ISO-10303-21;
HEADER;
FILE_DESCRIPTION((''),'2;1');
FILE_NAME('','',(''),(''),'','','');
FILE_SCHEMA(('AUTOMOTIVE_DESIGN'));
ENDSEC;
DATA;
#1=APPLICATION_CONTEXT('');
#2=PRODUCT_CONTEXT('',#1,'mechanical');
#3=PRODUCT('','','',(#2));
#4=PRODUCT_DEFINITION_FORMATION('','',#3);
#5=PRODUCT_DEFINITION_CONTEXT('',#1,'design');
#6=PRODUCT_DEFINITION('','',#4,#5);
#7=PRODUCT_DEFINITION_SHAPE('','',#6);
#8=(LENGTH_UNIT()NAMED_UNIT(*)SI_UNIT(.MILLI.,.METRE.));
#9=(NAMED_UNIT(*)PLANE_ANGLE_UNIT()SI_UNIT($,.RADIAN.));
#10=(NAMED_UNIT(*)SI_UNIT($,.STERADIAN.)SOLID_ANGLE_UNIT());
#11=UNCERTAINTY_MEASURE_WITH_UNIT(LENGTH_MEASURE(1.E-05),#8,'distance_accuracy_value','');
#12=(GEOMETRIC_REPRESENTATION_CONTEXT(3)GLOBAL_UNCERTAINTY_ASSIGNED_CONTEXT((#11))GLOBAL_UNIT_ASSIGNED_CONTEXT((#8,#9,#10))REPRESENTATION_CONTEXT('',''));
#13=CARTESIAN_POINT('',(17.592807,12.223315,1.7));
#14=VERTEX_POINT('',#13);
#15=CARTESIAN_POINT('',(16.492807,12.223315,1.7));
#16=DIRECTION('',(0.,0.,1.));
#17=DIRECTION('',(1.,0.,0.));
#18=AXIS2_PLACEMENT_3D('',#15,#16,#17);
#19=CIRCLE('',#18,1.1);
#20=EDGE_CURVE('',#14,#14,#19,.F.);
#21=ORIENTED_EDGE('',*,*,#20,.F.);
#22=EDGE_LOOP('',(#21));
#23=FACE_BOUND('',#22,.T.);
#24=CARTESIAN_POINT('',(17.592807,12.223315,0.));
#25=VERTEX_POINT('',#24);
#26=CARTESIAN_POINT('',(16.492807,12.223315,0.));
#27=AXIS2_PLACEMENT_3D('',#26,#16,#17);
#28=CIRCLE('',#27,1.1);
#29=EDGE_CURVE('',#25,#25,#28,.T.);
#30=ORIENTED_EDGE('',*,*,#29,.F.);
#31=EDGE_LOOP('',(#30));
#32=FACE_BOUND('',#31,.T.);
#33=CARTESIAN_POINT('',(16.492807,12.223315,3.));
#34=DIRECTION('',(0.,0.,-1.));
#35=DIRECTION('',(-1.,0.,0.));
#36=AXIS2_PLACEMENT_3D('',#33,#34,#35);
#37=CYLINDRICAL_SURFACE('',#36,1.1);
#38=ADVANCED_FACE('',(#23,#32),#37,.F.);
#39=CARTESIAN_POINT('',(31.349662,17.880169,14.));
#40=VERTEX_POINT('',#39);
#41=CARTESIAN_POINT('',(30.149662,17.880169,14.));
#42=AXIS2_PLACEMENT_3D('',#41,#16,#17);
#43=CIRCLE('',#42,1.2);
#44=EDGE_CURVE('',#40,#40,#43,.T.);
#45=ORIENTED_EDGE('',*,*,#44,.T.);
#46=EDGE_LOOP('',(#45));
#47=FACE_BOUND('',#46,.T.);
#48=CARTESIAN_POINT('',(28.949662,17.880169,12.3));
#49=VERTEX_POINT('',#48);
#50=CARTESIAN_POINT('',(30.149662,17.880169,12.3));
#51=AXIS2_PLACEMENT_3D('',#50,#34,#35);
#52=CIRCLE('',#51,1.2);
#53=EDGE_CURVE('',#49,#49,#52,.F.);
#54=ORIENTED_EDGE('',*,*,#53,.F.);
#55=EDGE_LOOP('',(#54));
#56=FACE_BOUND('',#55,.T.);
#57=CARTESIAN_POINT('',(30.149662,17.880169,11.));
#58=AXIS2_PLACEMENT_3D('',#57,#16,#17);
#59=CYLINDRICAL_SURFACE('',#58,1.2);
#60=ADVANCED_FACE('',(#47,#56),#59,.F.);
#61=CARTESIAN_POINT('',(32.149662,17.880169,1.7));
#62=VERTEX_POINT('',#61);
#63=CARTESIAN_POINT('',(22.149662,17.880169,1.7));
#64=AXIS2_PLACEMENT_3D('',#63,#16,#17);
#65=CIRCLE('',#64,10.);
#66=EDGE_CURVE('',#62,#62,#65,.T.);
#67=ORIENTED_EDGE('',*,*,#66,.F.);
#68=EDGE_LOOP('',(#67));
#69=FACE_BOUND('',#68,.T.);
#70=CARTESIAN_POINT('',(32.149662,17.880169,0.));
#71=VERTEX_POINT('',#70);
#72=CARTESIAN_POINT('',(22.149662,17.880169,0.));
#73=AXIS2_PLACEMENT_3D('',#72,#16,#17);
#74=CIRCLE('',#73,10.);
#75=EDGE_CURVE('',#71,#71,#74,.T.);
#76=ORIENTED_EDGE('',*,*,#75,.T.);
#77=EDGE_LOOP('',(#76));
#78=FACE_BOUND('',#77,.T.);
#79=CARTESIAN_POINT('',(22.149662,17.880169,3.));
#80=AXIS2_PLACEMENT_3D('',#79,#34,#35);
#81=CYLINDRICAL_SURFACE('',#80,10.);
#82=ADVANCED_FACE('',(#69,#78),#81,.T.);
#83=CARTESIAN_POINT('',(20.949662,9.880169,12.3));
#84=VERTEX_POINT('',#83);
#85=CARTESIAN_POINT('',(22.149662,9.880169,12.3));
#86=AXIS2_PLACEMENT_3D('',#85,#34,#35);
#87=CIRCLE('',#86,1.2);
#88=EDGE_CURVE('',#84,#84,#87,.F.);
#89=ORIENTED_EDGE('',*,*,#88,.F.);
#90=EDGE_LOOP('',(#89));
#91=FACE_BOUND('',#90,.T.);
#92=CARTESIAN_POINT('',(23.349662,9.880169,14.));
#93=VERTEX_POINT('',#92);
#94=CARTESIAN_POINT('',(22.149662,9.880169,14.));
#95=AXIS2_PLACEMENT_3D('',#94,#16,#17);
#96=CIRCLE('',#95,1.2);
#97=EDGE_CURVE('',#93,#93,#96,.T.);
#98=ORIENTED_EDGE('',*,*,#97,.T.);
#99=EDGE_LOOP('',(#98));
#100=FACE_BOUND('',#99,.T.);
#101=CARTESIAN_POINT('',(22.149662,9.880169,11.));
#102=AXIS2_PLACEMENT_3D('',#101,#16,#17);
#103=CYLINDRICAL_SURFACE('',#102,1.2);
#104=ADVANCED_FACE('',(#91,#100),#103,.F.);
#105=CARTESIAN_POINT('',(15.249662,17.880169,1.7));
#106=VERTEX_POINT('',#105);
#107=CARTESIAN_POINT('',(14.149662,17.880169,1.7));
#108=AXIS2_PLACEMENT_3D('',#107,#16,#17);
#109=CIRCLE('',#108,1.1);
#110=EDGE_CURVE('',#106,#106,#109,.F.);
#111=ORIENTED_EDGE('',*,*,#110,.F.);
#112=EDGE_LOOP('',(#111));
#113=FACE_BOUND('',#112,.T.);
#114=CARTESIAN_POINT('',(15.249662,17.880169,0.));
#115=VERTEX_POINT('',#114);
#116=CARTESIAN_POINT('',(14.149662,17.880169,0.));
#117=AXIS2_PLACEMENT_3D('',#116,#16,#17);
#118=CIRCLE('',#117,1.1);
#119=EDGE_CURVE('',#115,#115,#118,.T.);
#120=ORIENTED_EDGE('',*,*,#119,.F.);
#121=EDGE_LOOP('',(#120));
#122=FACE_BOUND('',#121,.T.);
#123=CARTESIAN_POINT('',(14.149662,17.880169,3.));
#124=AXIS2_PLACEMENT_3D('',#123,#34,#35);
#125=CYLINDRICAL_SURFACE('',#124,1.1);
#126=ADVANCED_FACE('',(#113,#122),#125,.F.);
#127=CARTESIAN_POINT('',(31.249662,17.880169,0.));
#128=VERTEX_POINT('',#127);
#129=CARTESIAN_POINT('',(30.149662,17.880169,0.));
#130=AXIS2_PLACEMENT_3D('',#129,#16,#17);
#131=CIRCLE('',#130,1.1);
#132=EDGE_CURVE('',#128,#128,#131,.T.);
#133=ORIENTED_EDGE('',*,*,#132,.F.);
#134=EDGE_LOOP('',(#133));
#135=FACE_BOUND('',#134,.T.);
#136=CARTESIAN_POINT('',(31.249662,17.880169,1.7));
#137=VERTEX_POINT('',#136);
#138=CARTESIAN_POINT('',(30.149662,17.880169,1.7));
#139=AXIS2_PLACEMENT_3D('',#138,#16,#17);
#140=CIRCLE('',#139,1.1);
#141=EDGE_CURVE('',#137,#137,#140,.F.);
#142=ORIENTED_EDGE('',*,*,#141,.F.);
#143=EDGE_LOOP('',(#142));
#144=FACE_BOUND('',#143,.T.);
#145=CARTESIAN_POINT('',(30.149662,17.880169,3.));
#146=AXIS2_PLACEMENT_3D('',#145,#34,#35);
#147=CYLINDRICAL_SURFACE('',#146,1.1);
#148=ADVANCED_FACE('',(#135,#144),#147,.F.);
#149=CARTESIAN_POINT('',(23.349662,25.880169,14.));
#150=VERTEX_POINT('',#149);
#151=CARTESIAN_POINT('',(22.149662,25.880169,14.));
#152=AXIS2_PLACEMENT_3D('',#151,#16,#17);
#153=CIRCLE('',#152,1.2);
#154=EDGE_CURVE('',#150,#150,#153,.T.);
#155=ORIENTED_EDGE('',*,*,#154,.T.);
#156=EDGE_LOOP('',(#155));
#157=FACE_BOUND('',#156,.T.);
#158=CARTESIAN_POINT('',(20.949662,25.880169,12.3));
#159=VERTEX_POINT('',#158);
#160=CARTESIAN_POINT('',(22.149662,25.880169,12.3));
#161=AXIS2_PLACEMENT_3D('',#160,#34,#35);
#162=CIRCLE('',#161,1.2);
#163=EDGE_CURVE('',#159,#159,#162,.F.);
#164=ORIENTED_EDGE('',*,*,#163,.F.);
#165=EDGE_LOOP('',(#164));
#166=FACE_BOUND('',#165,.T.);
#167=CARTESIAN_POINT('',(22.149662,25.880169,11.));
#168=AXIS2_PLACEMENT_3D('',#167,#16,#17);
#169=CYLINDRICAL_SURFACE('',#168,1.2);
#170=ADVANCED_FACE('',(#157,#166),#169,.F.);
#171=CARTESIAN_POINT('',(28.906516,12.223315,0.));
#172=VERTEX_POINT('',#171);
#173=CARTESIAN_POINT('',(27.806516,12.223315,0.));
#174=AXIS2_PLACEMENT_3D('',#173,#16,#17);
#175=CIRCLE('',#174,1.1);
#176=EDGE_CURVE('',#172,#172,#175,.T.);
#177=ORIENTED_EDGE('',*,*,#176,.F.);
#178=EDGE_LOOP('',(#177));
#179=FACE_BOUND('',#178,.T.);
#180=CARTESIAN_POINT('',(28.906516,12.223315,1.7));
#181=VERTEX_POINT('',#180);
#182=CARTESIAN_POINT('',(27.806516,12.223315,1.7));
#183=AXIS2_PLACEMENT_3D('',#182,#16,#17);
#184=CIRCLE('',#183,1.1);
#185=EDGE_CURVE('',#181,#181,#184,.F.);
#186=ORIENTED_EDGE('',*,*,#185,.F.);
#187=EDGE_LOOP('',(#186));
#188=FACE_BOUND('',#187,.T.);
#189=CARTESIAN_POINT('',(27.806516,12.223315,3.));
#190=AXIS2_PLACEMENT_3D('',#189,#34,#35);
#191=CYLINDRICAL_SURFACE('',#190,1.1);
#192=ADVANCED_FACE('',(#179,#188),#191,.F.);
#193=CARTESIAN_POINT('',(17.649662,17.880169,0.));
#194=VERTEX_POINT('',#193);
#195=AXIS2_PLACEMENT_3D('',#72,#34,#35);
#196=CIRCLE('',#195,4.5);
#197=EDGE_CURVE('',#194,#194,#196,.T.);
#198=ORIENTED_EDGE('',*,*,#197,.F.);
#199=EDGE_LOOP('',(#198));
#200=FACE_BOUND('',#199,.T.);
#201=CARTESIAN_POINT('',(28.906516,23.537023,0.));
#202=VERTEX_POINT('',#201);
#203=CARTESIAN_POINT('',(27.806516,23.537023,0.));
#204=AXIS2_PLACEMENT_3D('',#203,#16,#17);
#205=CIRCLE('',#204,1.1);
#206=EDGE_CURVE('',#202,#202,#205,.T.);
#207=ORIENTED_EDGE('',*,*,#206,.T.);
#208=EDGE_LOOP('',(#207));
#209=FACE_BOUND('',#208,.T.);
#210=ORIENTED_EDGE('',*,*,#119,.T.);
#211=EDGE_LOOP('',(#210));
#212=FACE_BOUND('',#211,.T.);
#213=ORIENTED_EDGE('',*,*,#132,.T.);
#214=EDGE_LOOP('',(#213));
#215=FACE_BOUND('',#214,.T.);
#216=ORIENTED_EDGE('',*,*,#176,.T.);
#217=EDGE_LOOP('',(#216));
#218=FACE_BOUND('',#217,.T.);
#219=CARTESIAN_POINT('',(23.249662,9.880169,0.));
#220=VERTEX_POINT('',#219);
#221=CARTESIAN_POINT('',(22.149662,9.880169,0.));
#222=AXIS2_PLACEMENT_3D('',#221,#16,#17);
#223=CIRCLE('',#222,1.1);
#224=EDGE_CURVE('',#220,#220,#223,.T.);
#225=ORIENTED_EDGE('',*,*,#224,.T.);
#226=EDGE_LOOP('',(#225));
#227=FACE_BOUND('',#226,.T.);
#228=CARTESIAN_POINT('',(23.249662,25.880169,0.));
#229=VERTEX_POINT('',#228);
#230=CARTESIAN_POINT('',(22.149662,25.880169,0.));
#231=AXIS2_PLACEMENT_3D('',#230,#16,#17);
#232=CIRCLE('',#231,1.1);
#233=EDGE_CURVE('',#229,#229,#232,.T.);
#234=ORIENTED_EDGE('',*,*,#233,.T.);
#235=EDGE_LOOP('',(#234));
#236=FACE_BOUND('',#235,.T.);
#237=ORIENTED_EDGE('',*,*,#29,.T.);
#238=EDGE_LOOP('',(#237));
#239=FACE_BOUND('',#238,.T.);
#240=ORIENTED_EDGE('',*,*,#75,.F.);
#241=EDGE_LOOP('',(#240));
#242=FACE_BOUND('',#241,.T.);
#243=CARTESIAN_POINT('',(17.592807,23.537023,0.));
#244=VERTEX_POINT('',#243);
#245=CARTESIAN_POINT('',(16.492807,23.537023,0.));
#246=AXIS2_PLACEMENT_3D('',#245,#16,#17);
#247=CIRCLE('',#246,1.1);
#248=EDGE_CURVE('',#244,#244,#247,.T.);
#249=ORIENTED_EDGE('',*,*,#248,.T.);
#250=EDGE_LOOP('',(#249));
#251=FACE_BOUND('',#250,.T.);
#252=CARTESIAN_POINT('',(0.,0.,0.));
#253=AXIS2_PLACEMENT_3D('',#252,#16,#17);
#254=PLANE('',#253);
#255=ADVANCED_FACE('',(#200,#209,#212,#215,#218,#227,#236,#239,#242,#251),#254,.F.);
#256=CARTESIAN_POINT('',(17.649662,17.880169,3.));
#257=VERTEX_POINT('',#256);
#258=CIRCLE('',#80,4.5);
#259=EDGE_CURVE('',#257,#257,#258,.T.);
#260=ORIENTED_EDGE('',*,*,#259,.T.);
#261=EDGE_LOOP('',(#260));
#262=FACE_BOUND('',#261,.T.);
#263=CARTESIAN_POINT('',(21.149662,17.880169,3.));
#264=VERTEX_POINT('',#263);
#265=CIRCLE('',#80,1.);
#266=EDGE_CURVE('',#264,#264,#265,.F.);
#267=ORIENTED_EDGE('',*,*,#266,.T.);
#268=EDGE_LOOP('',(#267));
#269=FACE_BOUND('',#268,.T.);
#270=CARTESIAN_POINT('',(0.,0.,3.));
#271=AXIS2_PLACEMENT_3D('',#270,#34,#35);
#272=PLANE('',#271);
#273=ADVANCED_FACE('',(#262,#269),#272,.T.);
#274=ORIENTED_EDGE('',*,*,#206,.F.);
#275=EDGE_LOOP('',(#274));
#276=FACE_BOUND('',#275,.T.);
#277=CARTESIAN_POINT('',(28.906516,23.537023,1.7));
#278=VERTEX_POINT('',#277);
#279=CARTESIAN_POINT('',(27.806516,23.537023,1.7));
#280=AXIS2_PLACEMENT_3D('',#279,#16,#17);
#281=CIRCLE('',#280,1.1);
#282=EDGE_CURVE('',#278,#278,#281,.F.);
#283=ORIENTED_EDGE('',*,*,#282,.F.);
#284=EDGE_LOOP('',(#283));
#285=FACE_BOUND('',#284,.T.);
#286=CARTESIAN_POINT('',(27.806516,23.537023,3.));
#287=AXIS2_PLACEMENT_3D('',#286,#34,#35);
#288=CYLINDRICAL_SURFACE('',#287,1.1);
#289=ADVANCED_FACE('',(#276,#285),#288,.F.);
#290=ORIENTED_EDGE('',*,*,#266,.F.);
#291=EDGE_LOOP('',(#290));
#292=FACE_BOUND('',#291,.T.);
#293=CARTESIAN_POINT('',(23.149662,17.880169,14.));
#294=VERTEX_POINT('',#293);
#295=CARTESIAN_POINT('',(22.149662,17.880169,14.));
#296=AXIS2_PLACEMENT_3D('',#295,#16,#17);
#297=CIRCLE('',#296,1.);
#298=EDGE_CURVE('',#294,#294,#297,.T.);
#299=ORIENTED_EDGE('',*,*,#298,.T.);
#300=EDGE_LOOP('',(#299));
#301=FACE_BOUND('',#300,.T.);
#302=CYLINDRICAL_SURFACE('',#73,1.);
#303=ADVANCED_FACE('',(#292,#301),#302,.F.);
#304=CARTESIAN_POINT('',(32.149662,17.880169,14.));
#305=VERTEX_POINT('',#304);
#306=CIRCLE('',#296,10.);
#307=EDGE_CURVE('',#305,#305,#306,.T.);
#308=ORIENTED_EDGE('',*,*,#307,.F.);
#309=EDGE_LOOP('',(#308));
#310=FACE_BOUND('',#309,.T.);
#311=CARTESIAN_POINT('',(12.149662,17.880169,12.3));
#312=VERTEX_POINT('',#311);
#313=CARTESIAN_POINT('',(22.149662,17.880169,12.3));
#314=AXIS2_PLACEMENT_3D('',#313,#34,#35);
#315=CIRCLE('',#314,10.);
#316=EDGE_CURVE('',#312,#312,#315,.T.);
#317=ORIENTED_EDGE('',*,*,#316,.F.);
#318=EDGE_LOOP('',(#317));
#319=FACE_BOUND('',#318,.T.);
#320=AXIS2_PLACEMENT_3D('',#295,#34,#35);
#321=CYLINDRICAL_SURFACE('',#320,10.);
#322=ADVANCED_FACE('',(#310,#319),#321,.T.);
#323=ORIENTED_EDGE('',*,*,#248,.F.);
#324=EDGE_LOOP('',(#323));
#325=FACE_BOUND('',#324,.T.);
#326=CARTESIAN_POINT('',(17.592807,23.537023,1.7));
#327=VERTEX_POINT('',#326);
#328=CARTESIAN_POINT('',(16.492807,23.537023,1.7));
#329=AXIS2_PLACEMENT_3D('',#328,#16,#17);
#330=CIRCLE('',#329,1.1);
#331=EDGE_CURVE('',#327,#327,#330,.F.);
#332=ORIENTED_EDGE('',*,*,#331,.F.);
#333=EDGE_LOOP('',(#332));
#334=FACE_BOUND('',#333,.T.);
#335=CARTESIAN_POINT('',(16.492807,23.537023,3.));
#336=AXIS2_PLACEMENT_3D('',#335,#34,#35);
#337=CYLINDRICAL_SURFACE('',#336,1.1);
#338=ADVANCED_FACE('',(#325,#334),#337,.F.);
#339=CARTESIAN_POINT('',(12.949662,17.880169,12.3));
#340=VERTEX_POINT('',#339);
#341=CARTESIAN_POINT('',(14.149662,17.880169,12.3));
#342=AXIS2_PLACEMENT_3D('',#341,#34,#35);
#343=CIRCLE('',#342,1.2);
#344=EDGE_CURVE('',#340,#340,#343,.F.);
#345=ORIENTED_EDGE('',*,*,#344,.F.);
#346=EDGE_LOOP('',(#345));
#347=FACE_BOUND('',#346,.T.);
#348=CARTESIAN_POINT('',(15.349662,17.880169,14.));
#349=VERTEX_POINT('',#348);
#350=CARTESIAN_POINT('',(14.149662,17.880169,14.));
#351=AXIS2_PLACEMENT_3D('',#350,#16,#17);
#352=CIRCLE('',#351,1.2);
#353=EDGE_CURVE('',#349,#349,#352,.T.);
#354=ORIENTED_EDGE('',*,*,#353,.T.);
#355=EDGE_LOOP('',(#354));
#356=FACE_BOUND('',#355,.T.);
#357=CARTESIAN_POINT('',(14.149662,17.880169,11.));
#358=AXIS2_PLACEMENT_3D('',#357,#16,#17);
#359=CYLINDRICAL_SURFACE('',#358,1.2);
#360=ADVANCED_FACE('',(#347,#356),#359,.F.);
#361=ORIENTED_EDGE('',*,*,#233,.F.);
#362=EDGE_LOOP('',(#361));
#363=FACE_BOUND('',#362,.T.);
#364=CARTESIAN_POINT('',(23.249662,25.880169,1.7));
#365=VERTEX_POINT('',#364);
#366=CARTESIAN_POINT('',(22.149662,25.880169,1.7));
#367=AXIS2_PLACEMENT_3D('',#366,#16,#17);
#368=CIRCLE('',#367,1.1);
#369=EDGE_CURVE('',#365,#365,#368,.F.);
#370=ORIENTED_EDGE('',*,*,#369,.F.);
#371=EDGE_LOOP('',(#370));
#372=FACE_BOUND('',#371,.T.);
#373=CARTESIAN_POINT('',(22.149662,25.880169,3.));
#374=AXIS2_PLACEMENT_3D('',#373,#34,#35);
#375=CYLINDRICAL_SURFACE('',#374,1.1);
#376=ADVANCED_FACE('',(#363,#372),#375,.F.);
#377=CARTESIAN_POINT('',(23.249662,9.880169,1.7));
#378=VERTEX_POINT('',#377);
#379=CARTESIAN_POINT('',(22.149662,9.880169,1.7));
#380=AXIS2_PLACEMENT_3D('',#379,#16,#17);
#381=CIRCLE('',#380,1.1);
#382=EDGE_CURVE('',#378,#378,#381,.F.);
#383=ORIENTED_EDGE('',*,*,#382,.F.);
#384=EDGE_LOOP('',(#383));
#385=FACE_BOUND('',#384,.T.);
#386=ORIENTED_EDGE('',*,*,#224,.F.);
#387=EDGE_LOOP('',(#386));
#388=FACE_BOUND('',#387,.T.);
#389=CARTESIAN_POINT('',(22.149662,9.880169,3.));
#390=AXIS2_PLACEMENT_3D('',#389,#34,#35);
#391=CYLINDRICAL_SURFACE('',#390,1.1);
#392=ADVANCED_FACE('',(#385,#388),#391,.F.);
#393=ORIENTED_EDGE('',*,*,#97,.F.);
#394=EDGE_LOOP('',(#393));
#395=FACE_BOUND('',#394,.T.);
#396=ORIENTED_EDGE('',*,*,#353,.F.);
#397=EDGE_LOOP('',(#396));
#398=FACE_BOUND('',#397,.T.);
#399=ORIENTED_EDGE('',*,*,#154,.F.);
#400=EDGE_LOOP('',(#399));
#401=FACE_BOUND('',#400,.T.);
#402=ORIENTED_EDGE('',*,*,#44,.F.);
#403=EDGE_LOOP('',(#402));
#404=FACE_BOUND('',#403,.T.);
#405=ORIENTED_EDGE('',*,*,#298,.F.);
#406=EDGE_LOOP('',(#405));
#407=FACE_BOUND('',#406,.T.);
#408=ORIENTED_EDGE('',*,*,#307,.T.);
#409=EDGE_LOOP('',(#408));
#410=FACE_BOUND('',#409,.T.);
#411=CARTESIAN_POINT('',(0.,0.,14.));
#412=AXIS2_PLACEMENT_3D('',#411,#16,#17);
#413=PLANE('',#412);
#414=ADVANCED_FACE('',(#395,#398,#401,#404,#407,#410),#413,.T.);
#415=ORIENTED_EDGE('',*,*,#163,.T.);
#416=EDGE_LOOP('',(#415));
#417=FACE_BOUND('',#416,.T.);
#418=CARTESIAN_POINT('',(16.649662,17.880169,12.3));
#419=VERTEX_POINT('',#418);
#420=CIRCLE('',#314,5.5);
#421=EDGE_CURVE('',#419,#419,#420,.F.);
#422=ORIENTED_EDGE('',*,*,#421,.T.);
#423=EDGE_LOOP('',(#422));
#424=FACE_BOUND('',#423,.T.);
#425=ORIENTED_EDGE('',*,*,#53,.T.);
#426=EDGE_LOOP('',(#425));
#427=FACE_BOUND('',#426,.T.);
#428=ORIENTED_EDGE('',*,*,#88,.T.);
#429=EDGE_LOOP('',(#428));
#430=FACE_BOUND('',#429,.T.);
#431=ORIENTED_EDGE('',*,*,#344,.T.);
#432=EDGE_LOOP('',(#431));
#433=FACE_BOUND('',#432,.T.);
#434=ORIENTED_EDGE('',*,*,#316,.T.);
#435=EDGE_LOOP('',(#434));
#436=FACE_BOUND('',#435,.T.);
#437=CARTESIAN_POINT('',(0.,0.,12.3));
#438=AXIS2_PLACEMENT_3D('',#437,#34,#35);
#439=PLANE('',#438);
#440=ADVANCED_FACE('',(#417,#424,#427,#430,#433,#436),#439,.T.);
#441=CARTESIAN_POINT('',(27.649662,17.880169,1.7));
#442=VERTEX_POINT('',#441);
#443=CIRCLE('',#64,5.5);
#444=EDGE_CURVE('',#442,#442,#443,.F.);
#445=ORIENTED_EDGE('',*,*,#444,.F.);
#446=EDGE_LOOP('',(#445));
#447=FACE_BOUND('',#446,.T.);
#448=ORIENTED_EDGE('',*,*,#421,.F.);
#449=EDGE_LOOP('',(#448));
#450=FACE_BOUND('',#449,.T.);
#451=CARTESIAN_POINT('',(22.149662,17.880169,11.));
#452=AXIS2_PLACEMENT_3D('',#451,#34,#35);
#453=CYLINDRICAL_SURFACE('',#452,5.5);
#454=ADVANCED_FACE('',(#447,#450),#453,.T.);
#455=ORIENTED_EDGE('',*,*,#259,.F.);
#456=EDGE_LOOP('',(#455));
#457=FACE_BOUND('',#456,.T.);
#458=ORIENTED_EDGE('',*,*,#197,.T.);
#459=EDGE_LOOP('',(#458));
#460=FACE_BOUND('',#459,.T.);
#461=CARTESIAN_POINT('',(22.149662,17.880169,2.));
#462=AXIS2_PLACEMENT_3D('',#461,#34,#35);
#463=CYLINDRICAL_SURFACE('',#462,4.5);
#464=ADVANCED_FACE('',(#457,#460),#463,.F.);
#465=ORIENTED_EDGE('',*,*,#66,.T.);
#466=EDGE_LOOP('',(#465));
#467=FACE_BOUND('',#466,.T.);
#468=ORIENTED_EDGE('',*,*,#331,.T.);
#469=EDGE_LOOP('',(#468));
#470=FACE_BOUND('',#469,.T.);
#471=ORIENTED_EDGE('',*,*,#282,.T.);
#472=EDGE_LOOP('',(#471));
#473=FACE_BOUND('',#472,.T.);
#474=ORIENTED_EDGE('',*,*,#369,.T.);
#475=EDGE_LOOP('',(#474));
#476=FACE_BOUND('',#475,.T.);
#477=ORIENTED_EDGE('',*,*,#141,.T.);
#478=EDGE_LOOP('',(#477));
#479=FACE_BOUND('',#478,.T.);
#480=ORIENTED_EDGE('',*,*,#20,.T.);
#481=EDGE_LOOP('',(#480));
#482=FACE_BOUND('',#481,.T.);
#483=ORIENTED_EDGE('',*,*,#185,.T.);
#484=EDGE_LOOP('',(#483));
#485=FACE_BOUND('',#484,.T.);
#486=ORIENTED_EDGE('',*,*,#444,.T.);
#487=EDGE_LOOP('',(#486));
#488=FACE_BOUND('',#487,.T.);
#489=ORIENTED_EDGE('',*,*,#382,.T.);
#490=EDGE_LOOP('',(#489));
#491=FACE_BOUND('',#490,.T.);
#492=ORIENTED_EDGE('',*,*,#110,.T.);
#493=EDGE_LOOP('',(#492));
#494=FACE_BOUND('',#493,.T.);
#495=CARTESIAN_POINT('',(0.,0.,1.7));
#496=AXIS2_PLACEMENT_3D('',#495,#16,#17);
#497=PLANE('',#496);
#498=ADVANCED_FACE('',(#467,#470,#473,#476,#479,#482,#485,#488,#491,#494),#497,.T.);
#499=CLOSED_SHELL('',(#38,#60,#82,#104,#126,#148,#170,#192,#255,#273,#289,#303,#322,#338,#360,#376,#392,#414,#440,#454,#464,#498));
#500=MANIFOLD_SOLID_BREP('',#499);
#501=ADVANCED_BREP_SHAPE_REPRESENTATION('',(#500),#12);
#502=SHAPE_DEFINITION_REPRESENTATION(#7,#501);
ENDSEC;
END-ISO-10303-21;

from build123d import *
from build123d.topology import SkipClean

# Parameters (mm, degrees)
BOSS_EXTRU_1_DEPTH      = 3
ENL_V_MAT_EXTRU_2_DEPTH = 2
BOSS_EXTRU_2_DEPTH      = 8
ESQUISSE4_R             = 10
ESQUISSE4_R_2           = 5.5
BOSS_EXTRU_3_DEPTH      = 3
ESQUISSE5_R             = 1.2
ENL_V_MAT_EXTRU_3_DEPTH = 3
ENL_V_MAT_EXTRU_4_DEPTH = 14
ENL_V_START             = -1.3
ESQUISSE7_R             = 1.1
ENL_V_MAT_EXTRU_5_DEPTH = 1.3
ENL_V_MAT_EXTRU_6_DEPTH = 1
ENL_V_MAT_EXTRU_7_DEPTH = 1.3


with BuildPart() as part:
    # Esquisse1 → Boss.-Extru.1 (new body)
    with BuildSketch(Plane.XY):
        with BuildLine():
            Line((22.149661623, 27.880169066), (22.149661623, 26.980169066))
            ThreePointArc((22.149661623, 26.980169066), (22.927479082, 26.657986525), (23.249661623, 25.880169066))
            ThreePointArc((23.249661623, 25.880169066), (22.927479082, 25.102351606), (22.149661623, 24.780169066))
            Line((22.149661623, 24.780169066), (22.149661623, 17.880169066))
            Line((22.149661623, 17.880169066), (27.028698413, 22.759205856))
            ThreePointArc((27.028698413, 22.759205856), (27.028698413, 24.314840775), (28.584333332, 24.314840775))
            Line((28.584333332, 24.314840775), (29.220729435, 24.951236878))
            ThreePointArc((29.220729435, 24.951236878), (25.976495947, 27.118964391), (22.149661623, 27.880169066))
        make_face()
        with BuildLine():
            ThreePointArc((22.149661623, 24.780169066), (21.049661623, 25.880169066), (22.149661623, 26.980169066))
            Line((22.149661623, 26.980169066), (22.149661623, 27.880169066))
            ThreePointArc((22.149661623, 27.880169066), (18.322827299, 27.118964391), (15.078593811, 24.951236878))
            Line((15.078593811, 24.951236878), (15.714989914, 24.314840775))
            ThreePointArc((15.714989914, 24.314840775), (16.913759149, 24.553290801), (17.592807374, 23.537023315))
            ThreePointArc((17.592807374, 23.537023315), (17.509074859, 23.11607154), (17.270624833, 22.759205856))
            Line((17.270624833, 22.759205856), (22.149661623, 17.880169066))
            Line((22.149661623, 17.880169066), (22.149661623, 24.780169066))
        make_face()
        with BuildLine():
            Line((27.028698413, 22.759205856), (22.149661623, 17.880169066))
            Line((22.149661623, 17.880169066), (29.049661623, 17.880169066))
            ThreePointArc((29.049661623, 17.880169066), (30.149661623, 18.980169066), (31.249661623, 17.880169066))
            Line((31.249661623, 17.880169066), (32.149661623, 17.880169066))
            ThreePointArc((32.149661623, 17.880169066), (31.388456948, 21.707003389), (29.220729435, 24.951236878))
            Line((29.220729435, 24.951236878), (28.584333332, 24.314840775))
            ThreePointArc((28.584333332, 24.314840775), (28.822783358, 23.957975091), (28.906515873, 23.537023315))
            ThreePointArc((28.906515873, 23.537023315), (28.227467648, 22.520755829), (27.028698413, 22.759205856))
        make_face()
        with BuildLine():
            Line((15.249661623, 17.880169066), (22.149661623, 17.880169066))
            Line((22.149661623, 17.880169066), (17.270624833, 22.759205856))
            ThreePointArc((17.270624833, 22.759205856), (15.714989914, 22.759205856), (15.714989914, 24.314840775))
            Line((15.714989914, 24.314840775), (15.078593811, 24.951236878))
            ThreePointArc((15.078593811, 24.951236878), (12.910866298, 21.707003389), (12.149661623, 17.880169066))
            Line((12.149661623, 17.880169066), (13.049661623, 17.880169066))
            ThreePointArc((13.049661623, 17.880169066), (14.149661623, 18.980169066), (15.249661623, 17.880169066))
        make_face()
        with BuildLine():
            Line((29.049661623, 17.880169066), (22.149661623, 17.880169066))
            Line((22.149661623, 17.880169066), (27.028698413, 13.001132276))
            ThreePointArc((27.028698413, 13.001132276), (28.227467648, 13.239582302), (28.906515873, 12.223314816))
            ThreePointArc((28.906515873, 12.223314816), (28.822783358, 11.802363041), (28.584333332, 11.445497357))
            Line((28.584333332, 11.445497357), (29.220729435, 10.809101254))
            ThreePointArc((29.220729435, 10.809101254), (31.388456948, 14.053334742), (32.149661623, 17.880169066))
            Line((32.149661623, 17.880169066), (31.249661623, 17.880169066))
            ThreePointArc((31.249661623, 17.880169066), (30.149661623, 16.780169066), (29.049661623, 17.880169066))
        make_face()
        with BuildLine():
            Line((27.028698413, 13.001132276), (22.149661623, 17.880169066))
            Line((22.149661623, 17.880169066), (22.149661623, 10.980169066))
            ThreePointArc((22.149661623, 10.980169066), (22.927479082, 10.657986525), (23.249661623, 9.880169066))
            ThreePointArc((23.249661623, 9.880169066), (22.927479082, 9.102351606), (22.149661623, 8.780169066))
            Line((22.149661623, 8.780169066), (22.149661623, 7.880169066))
            ThreePointArc((22.149661623, 7.880169066), (25.976495947, 8.641373741), (29.220729435, 10.809101254))
            Line((29.220729435, 10.809101254), (28.584333332, 11.445497357))
            ThreePointArc((28.584333332, 11.445497357), (27.028698413, 11.445497357), (27.028698413, 13.001132276))
        make_face()
        with BuildLine():
            Line((22.149661623, 10.980169066), (22.149661623, 17.880169066))
            Line((22.149661623, 17.880169066), (17.270624833, 13.001132276))
            ThreePointArc((17.270624833, 13.001132276), (17.509074859, 12.644266592), (17.592807374, 12.223314816))
            ThreePointArc((17.592807374, 12.223314816), (16.913759149, 11.20704733), (15.714989914, 11.445497357))
            Line((15.714989914, 11.445497357), (15.078593811, 10.809101254))
            ThreePointArc((15.078593811, 10.809101254), (18.322827299, 8.641373741), (22.149661623, 7.880169066))
            Line((22.149661623, 7.880169066), (22.149661623, 8.780169066))
            ThreePointArc((22.149661623, 8.780169066), (21.049661623, 9.880169066), (22.149661623, 10.980169066))
        make_face()
        with BuildLine():
            Line((17.270624833, 13.001132276), (22.149661623, 17.880169066))
            Line((22.149661623, 17.880169066), (15.249661623, 17.880169066))
            ThreePointArc((15.249661623, 17.880169066), (14.149661623, 16.780169066), (13.049661623, 17.880169066))
            Line((13.049661623, 17.880169066), (12.149661623, 17.880169066))
            ThreePointArc((12.149661623, 17.880169066), (12.910866298, 14.053334742), (15.078593811, 10.809101254))
            Line((15.078593811, 10.809101254), (15.714989914, 11.445497357))
            ThreePointArc((15.714989914, 11.445497357), (15.714989914, 13.001132276), (17.270624833, 13.001132276))
        make_face()
    extrude(amount=BOSS_EXTRU_1_DEPTH)

    # Esquisse2 → Enlèv. mat.-Extru.2 (cut)
    with BuildSketch(Plane(origin=(0, 0, 0), x_dir=(-1, 0, 0), z_dir=(0, 0, -1))):
        with BuildLine():
            ThreePointArc((-17.649661623, 17.880169066), (-18.967681108, 21.062149581), (-22.149661623, 22.380169066))
            Line((-22.149661623, 22.380169066), (-22.149661623, 17.880169066))
            Line((-22.149661623, 17.880169066), (-17.649661623, 17.880169066))
        make_face()
        with BuildLine():
            Line((-22.149661623, 17.880169066), (-22.149661623, 22.380169066))
            ThreePointArc((-22.149661623, 22.380169066), (-25.331642138, 21.062149581), (-26.649661623, 17.880169066))
            Line((-26.649661623, 17.880169066), (-22.149661623, 17.880169066))
        make_face()
        with BuildLine():
            Line((-17.649661623, 17.880169066), (-22.149661623, 17.880169066))
            Line((-22.149661623, 17.880169066), (-22.149661623, 13.380169066))
            ThreePointArc((-22.149661623, 13.380169066), (-18.967681108, 14.69818855), (-17.649661623, 17.880169066))
        make_face()
        with BuildLine():
            Line((-22.149661623, 13.380169066), (-22.149661623, 17.880169066))
            Line((-22.149661623, 17.880169066), (-26.649661623, 17.880169066))
            ThreePointArc((-26.649661623, 17.880169066), (-25.331642138, 14.69818855), (-22.149661623, 13.380169066))
        make_face()
    extrude(amount=-ENL_V_MAT_EXTRU_2_DEPTH, mode=Mode.SUBTRACT)

    # Esquisse3 → Boss.-Extru.2 (add)
    with BuildSketch(Plane.XY.offset(3)):
        with BuildLine():
            ThreePointArc((27.649661623, 17.880169066), (26.03874892, 21.769256362), (22.149661623, 23.380169066))
            Line((22.149661623, 23.380169066), (22.149661623, 17.880169066))
            Line((22.149661623, 17.880169066), (27.649661623, 17.880169066))
        make_face()
        with BuildLine():
            Line((22.149661623, 17.880169066), (22.149661623, 23.380169066))
            ThreePointArc((22.149661623, 23.380169066), (18.260574327, 21.769256362), (16.649661623, 17.880169066))
            Line((16.649661623, 17.880169066), (22.149661623, 17.880169066))
        make_face()
        with BuildLine():
            Line((27.649661623, 17.880169066), (22.149661623, 17.880169066))
            Line((22.149661623, 17.880169066), (22.149661623, 12.380169066))
            ThreePointArc((22.149661623, 12.380169066), (26.03874892, 13.991081769), (27.649661623, 17.880169066))
        make_face()
        with BuildLine():
            Line((22.149661623, 12.380169066), (22.149661623, 17.880169066))
            Line((22.149661623, 17.880169066), (16.649661623, 17.880169066))
            ThreePointArc((16.649661623, 17.880169066), (18.260574327, 13.991081769), (22.149661623, 12.380169066))
        make_face()
    extrude(amount=BOSS_EXTRU_2_DEPTH)

    # Esquisse4 → Boss.-Extru.3 (add)
    # profile 1 of 17: a face of its own
    with BuildSketch(Plane.XY.offset(11)):
        with Locations((22.149661623, 17.880169066)):
            Circle(ESQUISSE4_R)
        with Locations((22.149661623, 17.880169066)):
            Circle(ESQUISSE4_R_2, mode=Mode.SUBTRACT)
    # profile 2 of 17: a face of its own
    with BuildSketch(Plane.XY.offset(11)):
        with BuildLine():
            Line((22.149661623, 12.380169066), (22.149661623, 17.880169066))
            Line((22.149661623, 17.880169066), (16.649661623, 17.880169066))
            ThreePointArc((16.649661623, 17.880169066), (18.260574327, 13.991081769), (22.149661623, 12.380169066))
        make_face()
    # profile 3 of 17: a face of its own
    with BuildSketch(Plane.XY.offset(11)):
        with BuildLine():
            Line((27.649661623, 17.880169066), (22.149661623, 17.880169066))
            Line((22.149661623, 17.880169066), (22.149661623, 12.380169066))
            ThreePointArc((22.149661623, 12.380169066), (26.03874892, 13.991081769), (27.649661623, 17.880169066))
        make_face()
    # profile 4 of 17: a face of its own
    with BuildSketch(Plane.XY.offset(11)):
        with BuildLine():
            Line((22.149661623, 17.880169066), (22.149661623, 23.380169066))
            ThreePointArc((22.149661623, 23.380169066), (18.260574327, 21.769256362), (16.649661623, 17.880169066))
            Line((16.649661623, 17.880169066), (22.149661623, 17.880169066))
        make_face()
    # profile 5 of 17: a face of its own
    with BuildSketch(Plane.XY.offset(11)):
        with BuildLine():
            ThreePointArc((27.649661623, 17.880169066), (26.03874892, 21.769256362), (22.149661623, 23.380169066))
            Line((22.149661623, 23.380169066), (22.149661623, 17.880169066))
            Line((22.149661623, 17.880169066), (27.649661623, 17.880169066))
        make_face()
    # profile 6 of 17: a face of its own
    with BuildSketch(Plane.XY.offset(11)):
        with BuildLine():
            Line((22.149661623, 12.380169066), (22.149661623, 17.880169066))
            Line((22.149661623, 17.880169066), (16.649661623, 17.880169066))
            ThreePointArc((16.649661623, 17.880169066), (18.260574327, 13.991081769), (22.149661623, 12.380169066))
        make_face()
    # profile 7 of 17: a face of its own
    with BuildSketch(Plane.XY.offset(11)):
        with BuildLine():
            Line((27.649661623, 17.880169066), (22.149661623, 17.880169066))
            Line((22.149661623, 17.880169066), (22.149661623, 12.380169066))
            ThreePointArc((22.149661623, 12.380169066), (26.03874892, 13.991081769), (27.649661623, 17.880169066))
        make_face()
    # profile 8 of 17: a face of its own
    with BuildSketch(Plane.XY.offset(11)):
        with BuildLine():
            Line((22.149661623, 17.880169066), (22.149661623, 23.380169066))
            ThreePointArc((22.149661623, 23.380169066), (18.260574327, 21.769256362), (16.649661623, 17.880169066))
            Line((16.649661623, 17.880169066), (22.149661623, 17.880169066))
        make_face()
    # profile 9 of 17: a face of its own
    with BuildSketch(Plane.XY.offset(11)):
        with BuildLine():
            ThreePointArc((27.649661623, 17.880169066), (26.03874892, 21.769256362), (22.149661623, 23.380169066))
            Line((22.149661623, 23.380169066), (22.149661623, 17.880169066))
            Line((22.149661623, 17.880169066), (27.649661623, 17.880169066))
        make_face()
    # profile 10 of 17: a face of its own
    with BuildSketch(Plane.XY.offset(11)):
        with BuildLine():
            Line((22.149661623, 12.380169066), (22.149661623, 17.880169066))
            Line((22.149661623, 17.880169066), (16.649661623, 17.880169066))
            ThreePointArc((16.649661623, 17.880169066), (18.260574327, 13.991081769), (22.149661623, 12.380169066))
        make_face()
    # profile 11 of 17: a face of its own
    with BuildSketch(Plane.XY.offset(11)):
        with BuildLine():
            Line((27.649661623, 17.880169066), (22.149661623, 17.880169066))
            Line((22.149661623, 17.880169066), (22.149661623, 12.380169066))
            ThreePointArc((22.149661623, 12.380169066), (26.03874892, 13.991081769), (27.649661623, 17.880169066))
        make_face()
    # profile 12 of 17: a face of its own
    with BuildSketch(Plane.XY.offset(11)):
        with BuildLine():
            Line((22.149661623, 17.880169066), (22.149661623, 23.380169066))
            ThreePointArc((22.149661623, 23.380169066), (18.260574327, 21.769256362), (16.649661623, 17.880169066))
            Line((16.649661623, 17.880169066), (22.149661623, 17.880169066))
        make_face()
    # profile 13 of 17: a face of its own
    with BuildSketch(Plane.XY.offset(11)):
        with BuildLine():
            ThreePointArc((27.649661623, 17.880169066), (26.03874892, 21.769256362), (22.149661623, 23.380169066))
            Line((22.149661623, 23.380169066), (22.149661623, 17.880169066))
            Line((22.149661623, 17.880169066), (27.649661623, 17.880169066))
        make_face()
    # profile 14 of 17: a face of its own
    with BuildSketch(Plane.XY.offset(11)):
        with BuildLine():
            Line((22.149661623, 12.380169066), (22.149661623, 17.880169066))
            Line((22.149661623, 17.880169066), (16.649661623, 17.880169066))
            ThreePointArc((16.649661623, 17.880169066), (18.260574327, 13.991081769), (22.149661623, 12.380169066))
        make_face()
    # profile 15 of 17: a face of its own
    with BuildSketch(Plane.XY.offset(11)):
        with BuildLine():
            Line((27.649661623, 17.880169066), (22.149661623, 17.880169066))
            Line((22.149661623, 17.880169066), (22.149661623, 12.380169066))
            ThreePointArc((22.149661623, 12.380169066), (26.03874892, 13.991081769), (27.649661623, 17.880169066))
        make_face()
    # profile 16 of 17: a face of its own
    with BuildSketch(Plane.XY.offset(11)):
        with BuildLine():
            Line((22.149661623, 17.880169066), (22.149661623, 23.380169066))
            ThreePointArc((22.149661623, 23.380169066), (18.260574327, 21.769256362), (16.649661623, 17.880169066))
            Line((16.649661623, 17.880169066), (22.149661623, 17.880169066))
        make_face()
    # profile 17 of 17: a face of its own
    with BuildSketch(Plane.XY.offset(11)):
        with BuildLine():
            ThreePointArc((27.649661623, 17.880169066), (26.03874892, 21.769256362), (22.149661623, 23.380169066))
            Line((22.149661623, 23.380169066), (22.149661623, 17.880169066))
            Line((22.149661623, 17.880169066), (27.649661623, 17.880169066))
        make_face()
    extrude(amount=BOSS_EXTRU_3_DEPTH)

    # Esquisse5 → Enlèv. mat.-Extru.3 (cut)
    with BuildSketch(Plane.XY.offset(14)):
        with BuildLine():
            ThreePointArc((31.349661623, 17.880169066), (30.149661623, 19.080169066), (28.949661623, 17.880169066))
            Line((28.949661623, 17.880169066), (30.149661623, 17.880169066))
            Line((30.149661623, 17.880169066), (31.349661623, 17.880169066))
        make_face()
        with BuildLine():
            Line((30.149661623, 17.880169066), (28.949661623, 17.880169066))
            ThreePointArc((28.949661623, 17.880169066), (30.149661623, 16.680169066), (31.349661623, 17.880169066))
            Line((31.349661623, 17.880169066), (30.149661623, 17.880169066))
        make_face()
        with Locations((22.149661623, 9.880169066)):
            Circle(ESQUISSE5_R)
        with Locations((22.149661623, 25.880169066)):
            Circle(ESQUISSE5_R)
        with Locations((14.149661623, 17.880169066)):
            Circle(ESQUISSE5_R)
    extrude(amount=-ENL_V_MAT_EXTRU_3_DEPTH, mode=Mode.SUBTRACT)

    # Esquisse6 → Enlèv. mat.-Extru.4 (cut)
    with BuildSketch(Plane.XY.offset(14)):
        with BuildLine():
            ThreePointArc((23.149661623, 17.880169066), (22.856768404, 18.587275847), (22.149661623, 18.880169066))
            Line((22.149661623, 18.880169066), (22.149661623, 17.880169066))
            Line((22.149661623, 17.880169066), (23.149661623, 17.880169066))
        make_face()
        with BuildLine():
            Line((22.149661623, 17.880169066), (22.149661623, 18.880169066))
            ThreePointArc((22.149661623, 18.880169066), (21.442554842, 18.587275847), (21.149661623, 17.880169066))
            Line((21.149661623, 17.880169066), (22.149661623, 17.880169066))
        make_face()
        with BuildLine():
            Line((23.149661623, 17.880169066), (22.149661623, 17.880169066))
            Line((22.149661623, 17.880169066), (22.149661623, 16.880169066))
            ThreePointArc((22.149661623, 16.880169066), (22.856768404, 17.173062285), (23.149661623, 17.880169066))
        make_face()
        with BuildLine():
            Line((22.149661623, 16.880169066), (22.149661623, 17.880169066))
            Line((22.149661623, 17.880169066), (21.149661623, 17.880169066))
            ThreePointArc((21.149661623, 17.880169066), (21.442554842, 17.173062285), (22.149661623, 16.880169066))
        make_face()
    extrude(amount=-ENL_V_MAT_EXTRU_4_DEPTH, mode=Mode.SUBTRACT)

    # Esquisse7 → Enlèv. mat.-Extru.5 (cut)
    # profile 1 of 2: a face of its own
    with SkipClean():  # the faces are left unmerged after this step: merging them gives an invalid solid
        with BuildSketch(Plane.XY.offset(3).offset(ENL_V_START)):
            with BuildLine():
                Line((22.149661623, 26.980169066), (22.149661623, 27.880169066))
                ThreePointArc((22.149661623, 27.880169066), (12.149661623, 17.880169066), (22.149661623, 7.880169066))
                Line((22.149661623, 7.880169066), (22.149661623, 8.780169066))
                ThreePointArc((22.149661623, 8.780169066), (21.049661623, 9.880169066), (22.149661623, 10.980169066))
                Line((22.149661623, 10.980169066), (22.149661623, 12.380169066))
                ThreePointArc((22.149661623, 12.380169066), (16.649661623, 17.880169066), (22.149661623, 23.380169066))
                Line((22.149661623, 23.380169066), (22.149661623, 24.780169066))
                ThreePointArc((22.149661623, 24.780169066), (21.049661623, 25.880169066), (22.149661623, 26.980169066))
            make_face()
            with Locations((16.492807374, 12.223314816)):
                Circle(ESQUISSE7_R, mode=Mode.SUBTRACT)
            with Locations((14.149661623, 17.880169066)):
                Circle(ESQUISSE7_R, mode=Mode.SUBTRACT)
            with Locations((16.492807374, 23.537023315)):
                Circle(ESQUISSE7_R, mode=Mode.SUBTRACT)
        # profile 2 of 2: a face of its own
        with BuildSketch(Plane.XY.offset(3).offset(ENL_V_START)):
            with BuildLine():
                ThreePointArc((32.149661623, 17.880169066), (29.220729435, 24.951236878), (22.149661623, 27.880169066))
                Line((22.149661623, 27.880169066), (22.149661623, 26.980169066))
                ThreePointArc((22.149661623, 26.980169066), (22.927479082, 26.657986525), (23.249661623, 25.880169066))
                ThreePointArc((23.249661623, 25.880169066), (22.927479082, 25.102351606), (22.149661623, 24.780169066))
                Line((22.149661623, 24.780169066), (22.149661623, 23.380169066))
                ThreePointArc((22.149661623, 23.380169066), (26.03874892, 21.769256362), (27.649661623, 17.880169066))
                ThreePointArc((27.649661623, 17.880169066), (26.03874892, 13.991081769), (22.149661623, 12.380169066))
                Line((22.149661623, 12.380169066), (22.149661623, 10.980169066))
                ThreePointArc((22.149661623, 10.980169066), (22.927479082, 10.657986525), (23.249661623, 9.880169066))
                ThreePointArc((23.249661623, 9.880169066), (22.927479082, 9.102351606), (22.149661623, 8.780169066))
                Line((22.149661623, 8.780169066), (22.149661623, 7.880169066))
                ThreePointArc((22.149661623, 7.880169066), (29.220729435, 10.809101254), (32.149661623, 17.880169066))
            make_face()
            with Locations((27.806515873, 12.223314816)):
                Circle(ESQUISSE7_R, mode=Mode.SUBTRACT)
            with Locations((30.149661623, 17.880169066)):
                Circle(ESQUISSE7_R, mode=Mode.SUBTRACT)
            with Locations((27.806515873, 23.537023315)):
                Circle(ESQUISSE7_R, mode=Mode.SUBTRACT)
        extrude(amount=ENL_V_MAT_EXTRU_5_DEPTH, mode=Mode.SUBTRACT)

    # Esquisse8 → Enlèv. mat.-Extru.6 (cut)
    with SkipClean():  # the faces are left unmerged after this step: merging them gives an invalid solid
        with BuildSketch(Plane(origin=(0, 0, 2), x_dir=(-1, 0, 0), z_dir=(0, 0, -1))):
            with BuildLine():
                ThreePointArc((-17.649661623, 17.880169066), (-17.70973137, 18.612985107), (-17.88833689, 19.326236672))
                Line((-17.88833689, 19.326236672), (-21.202700571, 18.201517423))
                ThreePointArc((-21.202700571, 18.201517423), (-21.163010456, 18.043017075), (-21.149661623, 17.880169066))
                ThreePointArc((-21.149661623, 17.880169066), (-21.986813614, 16.893517898), (-23.096622675, 17.558820709))
                Line((-23.096622675, 17.558820709), (-26.410986356, 16.43410146))
                ThreePointArc((-26.410986356, 16.43410146), (-21.416845581, 13.440238813), (-17.649661623, 17.880169066))
            make_face()
            with BuildLine():
                Line((-21.202700571, 18.201517423), (-17.88833689, 19.326236672))
                ThreePointArc((-17.88833689, 19.326236672), (-23.595729229, 22.141493799), (-26.410986356, 16.43410146))
                Line((-26.410986356, 16.43410146), (-23.096622675, 17.558820709))
                ThreePointArc((-23.096622675, 17.558820709), (-22.47100998, 18.827130117), (-21.202700571, 18.201517423))
            make_face()
        extrude(amount=-ENL_V_MAT_EXTRU_6_DEPTH, mode=Mode.SUBTRACT)

    # Esquisse9 → Enlèv. mat.-Extru.7 (cut)
    with BuildSketch(Plane(origin=(0, 0, 11), x_dir=(-1, 0, 0), z_dir=(0, 0, -1))):
        with BuildLine():
            Line((-22.149661623, 27.080169066), (-22.149661623, 27.880169066))
            ThreePointArc((-22.149661623, 27.880169066), (-29.220729435, 24.951236878), (-32.149661623, 17.880169066))
            Line((-32.149661623, 17.880169066), (-31.349661623, 17.880169066))
            ThreePointArc((-31.349661623, 17.880169066), (-30.149661623, 19.080169066), (-28.949661623, 17.880169066))
            Line((-28.949661623, 17.880169066), (-27.649661623, 17.880169066))
            ThreePointArc((-27.649661623, 17.880169066), (-26.03874892, 21.769256362), (-22.149661623, 23.380169066))
            Line((-22.149661623, 23.380169066), (-22.149661623, 24.680169066))
            ThreePointArc((-22.149661623, 24.680169066), (-23.349661623, 25.880169066), (-22.149661623, 27.080169066))
        make_face()
        with BuildLine():
            Line((-32.149661623, 17.880169066), (-22.149661623, 7.880169066))
            Line((-22.149661623, 7.880169066), (-22.149661623, 8.680169066))
            ThreePointArc((-22.149661623, 8.680169066), (-23.349661623, 9.880169066), (-22.149661623, 11.080169066))
            Line((-22.149661623, 11.080169066), (-22.149661623, 12.380169066))
            ThreePointArc((-22.149661623, 12.380169066), (-26.03874892, 13.991081769), (-27.649661623, 17.880169066))
            Line((-27.649661623, 17.880169066), (-28.949661623, 17.880169066))
            ThreePointArc((-28.949661623, 17.880169066), (-30.149661623, 16.680169066), (-31.349661623, 17.880169066))
            Line((-31.349661623, 17.880169066), (-32.149661623, 17.880169066))
        make_face()
        with BuildLine():
            ThreePointArc((-32.149661623, 17.880169066), (-29.220729435, 10.809101254), (-22.149661623, 7.880169066))
            Line((-22.149661623, 7.880169066), (-32.149661623, 17.880169066))
        make_face()
        with BuildLine():
            ThreePointArc((-22.149661623, 7.880169066), (-15.078593811, 10.809101254), (-12.149661623, 17.880169066))
            Line((-12.149661623, 17.880169066), (-12.949661623, 17.880169066))
            ThreePointArc((-12.949661623, 17.880169066), (-14.149661623, 16.680169066), (-15.349661623, 17.880169066))
            Line((-15.349661623, 17.880169066), (-16.649661623, 17.880169066))
            ThreePointArc((-16.649661623, 17.880169066), (-18.260574327, 13.991081769), (-22.149661623, 12.380169066))
            Line((-22.149661623, 12.380169066), (-22.149661623, 11.080169066))
            ThreePointArc((-22.149661623, 11.080169066), (-21.301133486, 10.728697203), (-20.949661623, 9.880169066))
            ThreePointArc((-20.949661623, 9.880169066), (-21.301133486, 9.031640928), (-22.149661623, 8.680169066))
            Line((-22.149661623, 8.680169066), (-22.149661623, 7.880169066))
        make_face()
        with BuildLine():
            Line((-12.949661623, 17.880169066), (-12.149661623, 17.880169066))
            ThreePointArc((-12.149661623, 17.880169066), (-15.078593811, 24.951236878), (-22.149661623, 27.880169066))
            Line((-22.149661623, 27.880169066), (-22.149661623, 27.080169066))
            ThreePointArc((-22.149661623, 27.080169066), (-21.301133486, 26.728697203), (-20.949661623, 25.880169066))
            ThreePointArc((-20.949661623, 25.880169066), (-21.301133486, 25.031640928), (-22.149661623, 24.680169066))
            Line((-22.149661623, 24.680169066), (-22.149661623, 23.380169066))
            ThreePointArc((-22.149661623, 23.380169066), (-18.260574327, 21.769256362), (-16.649661623, 17.880169066))
            Line((-16.649661623, 17.880169066), (-15.349661623, 17.880169066))
            ThreePointArc((-15.349661623, 17.880169066), (-14.149661623, 19.080169066), (-12.949661623, 17.880169066))
        make_face()
    extrude(amount=-ENL_V_MAT_EXTRU_7_DEPTH, mode=Mode.SUBTRACT)


solid = part.part
